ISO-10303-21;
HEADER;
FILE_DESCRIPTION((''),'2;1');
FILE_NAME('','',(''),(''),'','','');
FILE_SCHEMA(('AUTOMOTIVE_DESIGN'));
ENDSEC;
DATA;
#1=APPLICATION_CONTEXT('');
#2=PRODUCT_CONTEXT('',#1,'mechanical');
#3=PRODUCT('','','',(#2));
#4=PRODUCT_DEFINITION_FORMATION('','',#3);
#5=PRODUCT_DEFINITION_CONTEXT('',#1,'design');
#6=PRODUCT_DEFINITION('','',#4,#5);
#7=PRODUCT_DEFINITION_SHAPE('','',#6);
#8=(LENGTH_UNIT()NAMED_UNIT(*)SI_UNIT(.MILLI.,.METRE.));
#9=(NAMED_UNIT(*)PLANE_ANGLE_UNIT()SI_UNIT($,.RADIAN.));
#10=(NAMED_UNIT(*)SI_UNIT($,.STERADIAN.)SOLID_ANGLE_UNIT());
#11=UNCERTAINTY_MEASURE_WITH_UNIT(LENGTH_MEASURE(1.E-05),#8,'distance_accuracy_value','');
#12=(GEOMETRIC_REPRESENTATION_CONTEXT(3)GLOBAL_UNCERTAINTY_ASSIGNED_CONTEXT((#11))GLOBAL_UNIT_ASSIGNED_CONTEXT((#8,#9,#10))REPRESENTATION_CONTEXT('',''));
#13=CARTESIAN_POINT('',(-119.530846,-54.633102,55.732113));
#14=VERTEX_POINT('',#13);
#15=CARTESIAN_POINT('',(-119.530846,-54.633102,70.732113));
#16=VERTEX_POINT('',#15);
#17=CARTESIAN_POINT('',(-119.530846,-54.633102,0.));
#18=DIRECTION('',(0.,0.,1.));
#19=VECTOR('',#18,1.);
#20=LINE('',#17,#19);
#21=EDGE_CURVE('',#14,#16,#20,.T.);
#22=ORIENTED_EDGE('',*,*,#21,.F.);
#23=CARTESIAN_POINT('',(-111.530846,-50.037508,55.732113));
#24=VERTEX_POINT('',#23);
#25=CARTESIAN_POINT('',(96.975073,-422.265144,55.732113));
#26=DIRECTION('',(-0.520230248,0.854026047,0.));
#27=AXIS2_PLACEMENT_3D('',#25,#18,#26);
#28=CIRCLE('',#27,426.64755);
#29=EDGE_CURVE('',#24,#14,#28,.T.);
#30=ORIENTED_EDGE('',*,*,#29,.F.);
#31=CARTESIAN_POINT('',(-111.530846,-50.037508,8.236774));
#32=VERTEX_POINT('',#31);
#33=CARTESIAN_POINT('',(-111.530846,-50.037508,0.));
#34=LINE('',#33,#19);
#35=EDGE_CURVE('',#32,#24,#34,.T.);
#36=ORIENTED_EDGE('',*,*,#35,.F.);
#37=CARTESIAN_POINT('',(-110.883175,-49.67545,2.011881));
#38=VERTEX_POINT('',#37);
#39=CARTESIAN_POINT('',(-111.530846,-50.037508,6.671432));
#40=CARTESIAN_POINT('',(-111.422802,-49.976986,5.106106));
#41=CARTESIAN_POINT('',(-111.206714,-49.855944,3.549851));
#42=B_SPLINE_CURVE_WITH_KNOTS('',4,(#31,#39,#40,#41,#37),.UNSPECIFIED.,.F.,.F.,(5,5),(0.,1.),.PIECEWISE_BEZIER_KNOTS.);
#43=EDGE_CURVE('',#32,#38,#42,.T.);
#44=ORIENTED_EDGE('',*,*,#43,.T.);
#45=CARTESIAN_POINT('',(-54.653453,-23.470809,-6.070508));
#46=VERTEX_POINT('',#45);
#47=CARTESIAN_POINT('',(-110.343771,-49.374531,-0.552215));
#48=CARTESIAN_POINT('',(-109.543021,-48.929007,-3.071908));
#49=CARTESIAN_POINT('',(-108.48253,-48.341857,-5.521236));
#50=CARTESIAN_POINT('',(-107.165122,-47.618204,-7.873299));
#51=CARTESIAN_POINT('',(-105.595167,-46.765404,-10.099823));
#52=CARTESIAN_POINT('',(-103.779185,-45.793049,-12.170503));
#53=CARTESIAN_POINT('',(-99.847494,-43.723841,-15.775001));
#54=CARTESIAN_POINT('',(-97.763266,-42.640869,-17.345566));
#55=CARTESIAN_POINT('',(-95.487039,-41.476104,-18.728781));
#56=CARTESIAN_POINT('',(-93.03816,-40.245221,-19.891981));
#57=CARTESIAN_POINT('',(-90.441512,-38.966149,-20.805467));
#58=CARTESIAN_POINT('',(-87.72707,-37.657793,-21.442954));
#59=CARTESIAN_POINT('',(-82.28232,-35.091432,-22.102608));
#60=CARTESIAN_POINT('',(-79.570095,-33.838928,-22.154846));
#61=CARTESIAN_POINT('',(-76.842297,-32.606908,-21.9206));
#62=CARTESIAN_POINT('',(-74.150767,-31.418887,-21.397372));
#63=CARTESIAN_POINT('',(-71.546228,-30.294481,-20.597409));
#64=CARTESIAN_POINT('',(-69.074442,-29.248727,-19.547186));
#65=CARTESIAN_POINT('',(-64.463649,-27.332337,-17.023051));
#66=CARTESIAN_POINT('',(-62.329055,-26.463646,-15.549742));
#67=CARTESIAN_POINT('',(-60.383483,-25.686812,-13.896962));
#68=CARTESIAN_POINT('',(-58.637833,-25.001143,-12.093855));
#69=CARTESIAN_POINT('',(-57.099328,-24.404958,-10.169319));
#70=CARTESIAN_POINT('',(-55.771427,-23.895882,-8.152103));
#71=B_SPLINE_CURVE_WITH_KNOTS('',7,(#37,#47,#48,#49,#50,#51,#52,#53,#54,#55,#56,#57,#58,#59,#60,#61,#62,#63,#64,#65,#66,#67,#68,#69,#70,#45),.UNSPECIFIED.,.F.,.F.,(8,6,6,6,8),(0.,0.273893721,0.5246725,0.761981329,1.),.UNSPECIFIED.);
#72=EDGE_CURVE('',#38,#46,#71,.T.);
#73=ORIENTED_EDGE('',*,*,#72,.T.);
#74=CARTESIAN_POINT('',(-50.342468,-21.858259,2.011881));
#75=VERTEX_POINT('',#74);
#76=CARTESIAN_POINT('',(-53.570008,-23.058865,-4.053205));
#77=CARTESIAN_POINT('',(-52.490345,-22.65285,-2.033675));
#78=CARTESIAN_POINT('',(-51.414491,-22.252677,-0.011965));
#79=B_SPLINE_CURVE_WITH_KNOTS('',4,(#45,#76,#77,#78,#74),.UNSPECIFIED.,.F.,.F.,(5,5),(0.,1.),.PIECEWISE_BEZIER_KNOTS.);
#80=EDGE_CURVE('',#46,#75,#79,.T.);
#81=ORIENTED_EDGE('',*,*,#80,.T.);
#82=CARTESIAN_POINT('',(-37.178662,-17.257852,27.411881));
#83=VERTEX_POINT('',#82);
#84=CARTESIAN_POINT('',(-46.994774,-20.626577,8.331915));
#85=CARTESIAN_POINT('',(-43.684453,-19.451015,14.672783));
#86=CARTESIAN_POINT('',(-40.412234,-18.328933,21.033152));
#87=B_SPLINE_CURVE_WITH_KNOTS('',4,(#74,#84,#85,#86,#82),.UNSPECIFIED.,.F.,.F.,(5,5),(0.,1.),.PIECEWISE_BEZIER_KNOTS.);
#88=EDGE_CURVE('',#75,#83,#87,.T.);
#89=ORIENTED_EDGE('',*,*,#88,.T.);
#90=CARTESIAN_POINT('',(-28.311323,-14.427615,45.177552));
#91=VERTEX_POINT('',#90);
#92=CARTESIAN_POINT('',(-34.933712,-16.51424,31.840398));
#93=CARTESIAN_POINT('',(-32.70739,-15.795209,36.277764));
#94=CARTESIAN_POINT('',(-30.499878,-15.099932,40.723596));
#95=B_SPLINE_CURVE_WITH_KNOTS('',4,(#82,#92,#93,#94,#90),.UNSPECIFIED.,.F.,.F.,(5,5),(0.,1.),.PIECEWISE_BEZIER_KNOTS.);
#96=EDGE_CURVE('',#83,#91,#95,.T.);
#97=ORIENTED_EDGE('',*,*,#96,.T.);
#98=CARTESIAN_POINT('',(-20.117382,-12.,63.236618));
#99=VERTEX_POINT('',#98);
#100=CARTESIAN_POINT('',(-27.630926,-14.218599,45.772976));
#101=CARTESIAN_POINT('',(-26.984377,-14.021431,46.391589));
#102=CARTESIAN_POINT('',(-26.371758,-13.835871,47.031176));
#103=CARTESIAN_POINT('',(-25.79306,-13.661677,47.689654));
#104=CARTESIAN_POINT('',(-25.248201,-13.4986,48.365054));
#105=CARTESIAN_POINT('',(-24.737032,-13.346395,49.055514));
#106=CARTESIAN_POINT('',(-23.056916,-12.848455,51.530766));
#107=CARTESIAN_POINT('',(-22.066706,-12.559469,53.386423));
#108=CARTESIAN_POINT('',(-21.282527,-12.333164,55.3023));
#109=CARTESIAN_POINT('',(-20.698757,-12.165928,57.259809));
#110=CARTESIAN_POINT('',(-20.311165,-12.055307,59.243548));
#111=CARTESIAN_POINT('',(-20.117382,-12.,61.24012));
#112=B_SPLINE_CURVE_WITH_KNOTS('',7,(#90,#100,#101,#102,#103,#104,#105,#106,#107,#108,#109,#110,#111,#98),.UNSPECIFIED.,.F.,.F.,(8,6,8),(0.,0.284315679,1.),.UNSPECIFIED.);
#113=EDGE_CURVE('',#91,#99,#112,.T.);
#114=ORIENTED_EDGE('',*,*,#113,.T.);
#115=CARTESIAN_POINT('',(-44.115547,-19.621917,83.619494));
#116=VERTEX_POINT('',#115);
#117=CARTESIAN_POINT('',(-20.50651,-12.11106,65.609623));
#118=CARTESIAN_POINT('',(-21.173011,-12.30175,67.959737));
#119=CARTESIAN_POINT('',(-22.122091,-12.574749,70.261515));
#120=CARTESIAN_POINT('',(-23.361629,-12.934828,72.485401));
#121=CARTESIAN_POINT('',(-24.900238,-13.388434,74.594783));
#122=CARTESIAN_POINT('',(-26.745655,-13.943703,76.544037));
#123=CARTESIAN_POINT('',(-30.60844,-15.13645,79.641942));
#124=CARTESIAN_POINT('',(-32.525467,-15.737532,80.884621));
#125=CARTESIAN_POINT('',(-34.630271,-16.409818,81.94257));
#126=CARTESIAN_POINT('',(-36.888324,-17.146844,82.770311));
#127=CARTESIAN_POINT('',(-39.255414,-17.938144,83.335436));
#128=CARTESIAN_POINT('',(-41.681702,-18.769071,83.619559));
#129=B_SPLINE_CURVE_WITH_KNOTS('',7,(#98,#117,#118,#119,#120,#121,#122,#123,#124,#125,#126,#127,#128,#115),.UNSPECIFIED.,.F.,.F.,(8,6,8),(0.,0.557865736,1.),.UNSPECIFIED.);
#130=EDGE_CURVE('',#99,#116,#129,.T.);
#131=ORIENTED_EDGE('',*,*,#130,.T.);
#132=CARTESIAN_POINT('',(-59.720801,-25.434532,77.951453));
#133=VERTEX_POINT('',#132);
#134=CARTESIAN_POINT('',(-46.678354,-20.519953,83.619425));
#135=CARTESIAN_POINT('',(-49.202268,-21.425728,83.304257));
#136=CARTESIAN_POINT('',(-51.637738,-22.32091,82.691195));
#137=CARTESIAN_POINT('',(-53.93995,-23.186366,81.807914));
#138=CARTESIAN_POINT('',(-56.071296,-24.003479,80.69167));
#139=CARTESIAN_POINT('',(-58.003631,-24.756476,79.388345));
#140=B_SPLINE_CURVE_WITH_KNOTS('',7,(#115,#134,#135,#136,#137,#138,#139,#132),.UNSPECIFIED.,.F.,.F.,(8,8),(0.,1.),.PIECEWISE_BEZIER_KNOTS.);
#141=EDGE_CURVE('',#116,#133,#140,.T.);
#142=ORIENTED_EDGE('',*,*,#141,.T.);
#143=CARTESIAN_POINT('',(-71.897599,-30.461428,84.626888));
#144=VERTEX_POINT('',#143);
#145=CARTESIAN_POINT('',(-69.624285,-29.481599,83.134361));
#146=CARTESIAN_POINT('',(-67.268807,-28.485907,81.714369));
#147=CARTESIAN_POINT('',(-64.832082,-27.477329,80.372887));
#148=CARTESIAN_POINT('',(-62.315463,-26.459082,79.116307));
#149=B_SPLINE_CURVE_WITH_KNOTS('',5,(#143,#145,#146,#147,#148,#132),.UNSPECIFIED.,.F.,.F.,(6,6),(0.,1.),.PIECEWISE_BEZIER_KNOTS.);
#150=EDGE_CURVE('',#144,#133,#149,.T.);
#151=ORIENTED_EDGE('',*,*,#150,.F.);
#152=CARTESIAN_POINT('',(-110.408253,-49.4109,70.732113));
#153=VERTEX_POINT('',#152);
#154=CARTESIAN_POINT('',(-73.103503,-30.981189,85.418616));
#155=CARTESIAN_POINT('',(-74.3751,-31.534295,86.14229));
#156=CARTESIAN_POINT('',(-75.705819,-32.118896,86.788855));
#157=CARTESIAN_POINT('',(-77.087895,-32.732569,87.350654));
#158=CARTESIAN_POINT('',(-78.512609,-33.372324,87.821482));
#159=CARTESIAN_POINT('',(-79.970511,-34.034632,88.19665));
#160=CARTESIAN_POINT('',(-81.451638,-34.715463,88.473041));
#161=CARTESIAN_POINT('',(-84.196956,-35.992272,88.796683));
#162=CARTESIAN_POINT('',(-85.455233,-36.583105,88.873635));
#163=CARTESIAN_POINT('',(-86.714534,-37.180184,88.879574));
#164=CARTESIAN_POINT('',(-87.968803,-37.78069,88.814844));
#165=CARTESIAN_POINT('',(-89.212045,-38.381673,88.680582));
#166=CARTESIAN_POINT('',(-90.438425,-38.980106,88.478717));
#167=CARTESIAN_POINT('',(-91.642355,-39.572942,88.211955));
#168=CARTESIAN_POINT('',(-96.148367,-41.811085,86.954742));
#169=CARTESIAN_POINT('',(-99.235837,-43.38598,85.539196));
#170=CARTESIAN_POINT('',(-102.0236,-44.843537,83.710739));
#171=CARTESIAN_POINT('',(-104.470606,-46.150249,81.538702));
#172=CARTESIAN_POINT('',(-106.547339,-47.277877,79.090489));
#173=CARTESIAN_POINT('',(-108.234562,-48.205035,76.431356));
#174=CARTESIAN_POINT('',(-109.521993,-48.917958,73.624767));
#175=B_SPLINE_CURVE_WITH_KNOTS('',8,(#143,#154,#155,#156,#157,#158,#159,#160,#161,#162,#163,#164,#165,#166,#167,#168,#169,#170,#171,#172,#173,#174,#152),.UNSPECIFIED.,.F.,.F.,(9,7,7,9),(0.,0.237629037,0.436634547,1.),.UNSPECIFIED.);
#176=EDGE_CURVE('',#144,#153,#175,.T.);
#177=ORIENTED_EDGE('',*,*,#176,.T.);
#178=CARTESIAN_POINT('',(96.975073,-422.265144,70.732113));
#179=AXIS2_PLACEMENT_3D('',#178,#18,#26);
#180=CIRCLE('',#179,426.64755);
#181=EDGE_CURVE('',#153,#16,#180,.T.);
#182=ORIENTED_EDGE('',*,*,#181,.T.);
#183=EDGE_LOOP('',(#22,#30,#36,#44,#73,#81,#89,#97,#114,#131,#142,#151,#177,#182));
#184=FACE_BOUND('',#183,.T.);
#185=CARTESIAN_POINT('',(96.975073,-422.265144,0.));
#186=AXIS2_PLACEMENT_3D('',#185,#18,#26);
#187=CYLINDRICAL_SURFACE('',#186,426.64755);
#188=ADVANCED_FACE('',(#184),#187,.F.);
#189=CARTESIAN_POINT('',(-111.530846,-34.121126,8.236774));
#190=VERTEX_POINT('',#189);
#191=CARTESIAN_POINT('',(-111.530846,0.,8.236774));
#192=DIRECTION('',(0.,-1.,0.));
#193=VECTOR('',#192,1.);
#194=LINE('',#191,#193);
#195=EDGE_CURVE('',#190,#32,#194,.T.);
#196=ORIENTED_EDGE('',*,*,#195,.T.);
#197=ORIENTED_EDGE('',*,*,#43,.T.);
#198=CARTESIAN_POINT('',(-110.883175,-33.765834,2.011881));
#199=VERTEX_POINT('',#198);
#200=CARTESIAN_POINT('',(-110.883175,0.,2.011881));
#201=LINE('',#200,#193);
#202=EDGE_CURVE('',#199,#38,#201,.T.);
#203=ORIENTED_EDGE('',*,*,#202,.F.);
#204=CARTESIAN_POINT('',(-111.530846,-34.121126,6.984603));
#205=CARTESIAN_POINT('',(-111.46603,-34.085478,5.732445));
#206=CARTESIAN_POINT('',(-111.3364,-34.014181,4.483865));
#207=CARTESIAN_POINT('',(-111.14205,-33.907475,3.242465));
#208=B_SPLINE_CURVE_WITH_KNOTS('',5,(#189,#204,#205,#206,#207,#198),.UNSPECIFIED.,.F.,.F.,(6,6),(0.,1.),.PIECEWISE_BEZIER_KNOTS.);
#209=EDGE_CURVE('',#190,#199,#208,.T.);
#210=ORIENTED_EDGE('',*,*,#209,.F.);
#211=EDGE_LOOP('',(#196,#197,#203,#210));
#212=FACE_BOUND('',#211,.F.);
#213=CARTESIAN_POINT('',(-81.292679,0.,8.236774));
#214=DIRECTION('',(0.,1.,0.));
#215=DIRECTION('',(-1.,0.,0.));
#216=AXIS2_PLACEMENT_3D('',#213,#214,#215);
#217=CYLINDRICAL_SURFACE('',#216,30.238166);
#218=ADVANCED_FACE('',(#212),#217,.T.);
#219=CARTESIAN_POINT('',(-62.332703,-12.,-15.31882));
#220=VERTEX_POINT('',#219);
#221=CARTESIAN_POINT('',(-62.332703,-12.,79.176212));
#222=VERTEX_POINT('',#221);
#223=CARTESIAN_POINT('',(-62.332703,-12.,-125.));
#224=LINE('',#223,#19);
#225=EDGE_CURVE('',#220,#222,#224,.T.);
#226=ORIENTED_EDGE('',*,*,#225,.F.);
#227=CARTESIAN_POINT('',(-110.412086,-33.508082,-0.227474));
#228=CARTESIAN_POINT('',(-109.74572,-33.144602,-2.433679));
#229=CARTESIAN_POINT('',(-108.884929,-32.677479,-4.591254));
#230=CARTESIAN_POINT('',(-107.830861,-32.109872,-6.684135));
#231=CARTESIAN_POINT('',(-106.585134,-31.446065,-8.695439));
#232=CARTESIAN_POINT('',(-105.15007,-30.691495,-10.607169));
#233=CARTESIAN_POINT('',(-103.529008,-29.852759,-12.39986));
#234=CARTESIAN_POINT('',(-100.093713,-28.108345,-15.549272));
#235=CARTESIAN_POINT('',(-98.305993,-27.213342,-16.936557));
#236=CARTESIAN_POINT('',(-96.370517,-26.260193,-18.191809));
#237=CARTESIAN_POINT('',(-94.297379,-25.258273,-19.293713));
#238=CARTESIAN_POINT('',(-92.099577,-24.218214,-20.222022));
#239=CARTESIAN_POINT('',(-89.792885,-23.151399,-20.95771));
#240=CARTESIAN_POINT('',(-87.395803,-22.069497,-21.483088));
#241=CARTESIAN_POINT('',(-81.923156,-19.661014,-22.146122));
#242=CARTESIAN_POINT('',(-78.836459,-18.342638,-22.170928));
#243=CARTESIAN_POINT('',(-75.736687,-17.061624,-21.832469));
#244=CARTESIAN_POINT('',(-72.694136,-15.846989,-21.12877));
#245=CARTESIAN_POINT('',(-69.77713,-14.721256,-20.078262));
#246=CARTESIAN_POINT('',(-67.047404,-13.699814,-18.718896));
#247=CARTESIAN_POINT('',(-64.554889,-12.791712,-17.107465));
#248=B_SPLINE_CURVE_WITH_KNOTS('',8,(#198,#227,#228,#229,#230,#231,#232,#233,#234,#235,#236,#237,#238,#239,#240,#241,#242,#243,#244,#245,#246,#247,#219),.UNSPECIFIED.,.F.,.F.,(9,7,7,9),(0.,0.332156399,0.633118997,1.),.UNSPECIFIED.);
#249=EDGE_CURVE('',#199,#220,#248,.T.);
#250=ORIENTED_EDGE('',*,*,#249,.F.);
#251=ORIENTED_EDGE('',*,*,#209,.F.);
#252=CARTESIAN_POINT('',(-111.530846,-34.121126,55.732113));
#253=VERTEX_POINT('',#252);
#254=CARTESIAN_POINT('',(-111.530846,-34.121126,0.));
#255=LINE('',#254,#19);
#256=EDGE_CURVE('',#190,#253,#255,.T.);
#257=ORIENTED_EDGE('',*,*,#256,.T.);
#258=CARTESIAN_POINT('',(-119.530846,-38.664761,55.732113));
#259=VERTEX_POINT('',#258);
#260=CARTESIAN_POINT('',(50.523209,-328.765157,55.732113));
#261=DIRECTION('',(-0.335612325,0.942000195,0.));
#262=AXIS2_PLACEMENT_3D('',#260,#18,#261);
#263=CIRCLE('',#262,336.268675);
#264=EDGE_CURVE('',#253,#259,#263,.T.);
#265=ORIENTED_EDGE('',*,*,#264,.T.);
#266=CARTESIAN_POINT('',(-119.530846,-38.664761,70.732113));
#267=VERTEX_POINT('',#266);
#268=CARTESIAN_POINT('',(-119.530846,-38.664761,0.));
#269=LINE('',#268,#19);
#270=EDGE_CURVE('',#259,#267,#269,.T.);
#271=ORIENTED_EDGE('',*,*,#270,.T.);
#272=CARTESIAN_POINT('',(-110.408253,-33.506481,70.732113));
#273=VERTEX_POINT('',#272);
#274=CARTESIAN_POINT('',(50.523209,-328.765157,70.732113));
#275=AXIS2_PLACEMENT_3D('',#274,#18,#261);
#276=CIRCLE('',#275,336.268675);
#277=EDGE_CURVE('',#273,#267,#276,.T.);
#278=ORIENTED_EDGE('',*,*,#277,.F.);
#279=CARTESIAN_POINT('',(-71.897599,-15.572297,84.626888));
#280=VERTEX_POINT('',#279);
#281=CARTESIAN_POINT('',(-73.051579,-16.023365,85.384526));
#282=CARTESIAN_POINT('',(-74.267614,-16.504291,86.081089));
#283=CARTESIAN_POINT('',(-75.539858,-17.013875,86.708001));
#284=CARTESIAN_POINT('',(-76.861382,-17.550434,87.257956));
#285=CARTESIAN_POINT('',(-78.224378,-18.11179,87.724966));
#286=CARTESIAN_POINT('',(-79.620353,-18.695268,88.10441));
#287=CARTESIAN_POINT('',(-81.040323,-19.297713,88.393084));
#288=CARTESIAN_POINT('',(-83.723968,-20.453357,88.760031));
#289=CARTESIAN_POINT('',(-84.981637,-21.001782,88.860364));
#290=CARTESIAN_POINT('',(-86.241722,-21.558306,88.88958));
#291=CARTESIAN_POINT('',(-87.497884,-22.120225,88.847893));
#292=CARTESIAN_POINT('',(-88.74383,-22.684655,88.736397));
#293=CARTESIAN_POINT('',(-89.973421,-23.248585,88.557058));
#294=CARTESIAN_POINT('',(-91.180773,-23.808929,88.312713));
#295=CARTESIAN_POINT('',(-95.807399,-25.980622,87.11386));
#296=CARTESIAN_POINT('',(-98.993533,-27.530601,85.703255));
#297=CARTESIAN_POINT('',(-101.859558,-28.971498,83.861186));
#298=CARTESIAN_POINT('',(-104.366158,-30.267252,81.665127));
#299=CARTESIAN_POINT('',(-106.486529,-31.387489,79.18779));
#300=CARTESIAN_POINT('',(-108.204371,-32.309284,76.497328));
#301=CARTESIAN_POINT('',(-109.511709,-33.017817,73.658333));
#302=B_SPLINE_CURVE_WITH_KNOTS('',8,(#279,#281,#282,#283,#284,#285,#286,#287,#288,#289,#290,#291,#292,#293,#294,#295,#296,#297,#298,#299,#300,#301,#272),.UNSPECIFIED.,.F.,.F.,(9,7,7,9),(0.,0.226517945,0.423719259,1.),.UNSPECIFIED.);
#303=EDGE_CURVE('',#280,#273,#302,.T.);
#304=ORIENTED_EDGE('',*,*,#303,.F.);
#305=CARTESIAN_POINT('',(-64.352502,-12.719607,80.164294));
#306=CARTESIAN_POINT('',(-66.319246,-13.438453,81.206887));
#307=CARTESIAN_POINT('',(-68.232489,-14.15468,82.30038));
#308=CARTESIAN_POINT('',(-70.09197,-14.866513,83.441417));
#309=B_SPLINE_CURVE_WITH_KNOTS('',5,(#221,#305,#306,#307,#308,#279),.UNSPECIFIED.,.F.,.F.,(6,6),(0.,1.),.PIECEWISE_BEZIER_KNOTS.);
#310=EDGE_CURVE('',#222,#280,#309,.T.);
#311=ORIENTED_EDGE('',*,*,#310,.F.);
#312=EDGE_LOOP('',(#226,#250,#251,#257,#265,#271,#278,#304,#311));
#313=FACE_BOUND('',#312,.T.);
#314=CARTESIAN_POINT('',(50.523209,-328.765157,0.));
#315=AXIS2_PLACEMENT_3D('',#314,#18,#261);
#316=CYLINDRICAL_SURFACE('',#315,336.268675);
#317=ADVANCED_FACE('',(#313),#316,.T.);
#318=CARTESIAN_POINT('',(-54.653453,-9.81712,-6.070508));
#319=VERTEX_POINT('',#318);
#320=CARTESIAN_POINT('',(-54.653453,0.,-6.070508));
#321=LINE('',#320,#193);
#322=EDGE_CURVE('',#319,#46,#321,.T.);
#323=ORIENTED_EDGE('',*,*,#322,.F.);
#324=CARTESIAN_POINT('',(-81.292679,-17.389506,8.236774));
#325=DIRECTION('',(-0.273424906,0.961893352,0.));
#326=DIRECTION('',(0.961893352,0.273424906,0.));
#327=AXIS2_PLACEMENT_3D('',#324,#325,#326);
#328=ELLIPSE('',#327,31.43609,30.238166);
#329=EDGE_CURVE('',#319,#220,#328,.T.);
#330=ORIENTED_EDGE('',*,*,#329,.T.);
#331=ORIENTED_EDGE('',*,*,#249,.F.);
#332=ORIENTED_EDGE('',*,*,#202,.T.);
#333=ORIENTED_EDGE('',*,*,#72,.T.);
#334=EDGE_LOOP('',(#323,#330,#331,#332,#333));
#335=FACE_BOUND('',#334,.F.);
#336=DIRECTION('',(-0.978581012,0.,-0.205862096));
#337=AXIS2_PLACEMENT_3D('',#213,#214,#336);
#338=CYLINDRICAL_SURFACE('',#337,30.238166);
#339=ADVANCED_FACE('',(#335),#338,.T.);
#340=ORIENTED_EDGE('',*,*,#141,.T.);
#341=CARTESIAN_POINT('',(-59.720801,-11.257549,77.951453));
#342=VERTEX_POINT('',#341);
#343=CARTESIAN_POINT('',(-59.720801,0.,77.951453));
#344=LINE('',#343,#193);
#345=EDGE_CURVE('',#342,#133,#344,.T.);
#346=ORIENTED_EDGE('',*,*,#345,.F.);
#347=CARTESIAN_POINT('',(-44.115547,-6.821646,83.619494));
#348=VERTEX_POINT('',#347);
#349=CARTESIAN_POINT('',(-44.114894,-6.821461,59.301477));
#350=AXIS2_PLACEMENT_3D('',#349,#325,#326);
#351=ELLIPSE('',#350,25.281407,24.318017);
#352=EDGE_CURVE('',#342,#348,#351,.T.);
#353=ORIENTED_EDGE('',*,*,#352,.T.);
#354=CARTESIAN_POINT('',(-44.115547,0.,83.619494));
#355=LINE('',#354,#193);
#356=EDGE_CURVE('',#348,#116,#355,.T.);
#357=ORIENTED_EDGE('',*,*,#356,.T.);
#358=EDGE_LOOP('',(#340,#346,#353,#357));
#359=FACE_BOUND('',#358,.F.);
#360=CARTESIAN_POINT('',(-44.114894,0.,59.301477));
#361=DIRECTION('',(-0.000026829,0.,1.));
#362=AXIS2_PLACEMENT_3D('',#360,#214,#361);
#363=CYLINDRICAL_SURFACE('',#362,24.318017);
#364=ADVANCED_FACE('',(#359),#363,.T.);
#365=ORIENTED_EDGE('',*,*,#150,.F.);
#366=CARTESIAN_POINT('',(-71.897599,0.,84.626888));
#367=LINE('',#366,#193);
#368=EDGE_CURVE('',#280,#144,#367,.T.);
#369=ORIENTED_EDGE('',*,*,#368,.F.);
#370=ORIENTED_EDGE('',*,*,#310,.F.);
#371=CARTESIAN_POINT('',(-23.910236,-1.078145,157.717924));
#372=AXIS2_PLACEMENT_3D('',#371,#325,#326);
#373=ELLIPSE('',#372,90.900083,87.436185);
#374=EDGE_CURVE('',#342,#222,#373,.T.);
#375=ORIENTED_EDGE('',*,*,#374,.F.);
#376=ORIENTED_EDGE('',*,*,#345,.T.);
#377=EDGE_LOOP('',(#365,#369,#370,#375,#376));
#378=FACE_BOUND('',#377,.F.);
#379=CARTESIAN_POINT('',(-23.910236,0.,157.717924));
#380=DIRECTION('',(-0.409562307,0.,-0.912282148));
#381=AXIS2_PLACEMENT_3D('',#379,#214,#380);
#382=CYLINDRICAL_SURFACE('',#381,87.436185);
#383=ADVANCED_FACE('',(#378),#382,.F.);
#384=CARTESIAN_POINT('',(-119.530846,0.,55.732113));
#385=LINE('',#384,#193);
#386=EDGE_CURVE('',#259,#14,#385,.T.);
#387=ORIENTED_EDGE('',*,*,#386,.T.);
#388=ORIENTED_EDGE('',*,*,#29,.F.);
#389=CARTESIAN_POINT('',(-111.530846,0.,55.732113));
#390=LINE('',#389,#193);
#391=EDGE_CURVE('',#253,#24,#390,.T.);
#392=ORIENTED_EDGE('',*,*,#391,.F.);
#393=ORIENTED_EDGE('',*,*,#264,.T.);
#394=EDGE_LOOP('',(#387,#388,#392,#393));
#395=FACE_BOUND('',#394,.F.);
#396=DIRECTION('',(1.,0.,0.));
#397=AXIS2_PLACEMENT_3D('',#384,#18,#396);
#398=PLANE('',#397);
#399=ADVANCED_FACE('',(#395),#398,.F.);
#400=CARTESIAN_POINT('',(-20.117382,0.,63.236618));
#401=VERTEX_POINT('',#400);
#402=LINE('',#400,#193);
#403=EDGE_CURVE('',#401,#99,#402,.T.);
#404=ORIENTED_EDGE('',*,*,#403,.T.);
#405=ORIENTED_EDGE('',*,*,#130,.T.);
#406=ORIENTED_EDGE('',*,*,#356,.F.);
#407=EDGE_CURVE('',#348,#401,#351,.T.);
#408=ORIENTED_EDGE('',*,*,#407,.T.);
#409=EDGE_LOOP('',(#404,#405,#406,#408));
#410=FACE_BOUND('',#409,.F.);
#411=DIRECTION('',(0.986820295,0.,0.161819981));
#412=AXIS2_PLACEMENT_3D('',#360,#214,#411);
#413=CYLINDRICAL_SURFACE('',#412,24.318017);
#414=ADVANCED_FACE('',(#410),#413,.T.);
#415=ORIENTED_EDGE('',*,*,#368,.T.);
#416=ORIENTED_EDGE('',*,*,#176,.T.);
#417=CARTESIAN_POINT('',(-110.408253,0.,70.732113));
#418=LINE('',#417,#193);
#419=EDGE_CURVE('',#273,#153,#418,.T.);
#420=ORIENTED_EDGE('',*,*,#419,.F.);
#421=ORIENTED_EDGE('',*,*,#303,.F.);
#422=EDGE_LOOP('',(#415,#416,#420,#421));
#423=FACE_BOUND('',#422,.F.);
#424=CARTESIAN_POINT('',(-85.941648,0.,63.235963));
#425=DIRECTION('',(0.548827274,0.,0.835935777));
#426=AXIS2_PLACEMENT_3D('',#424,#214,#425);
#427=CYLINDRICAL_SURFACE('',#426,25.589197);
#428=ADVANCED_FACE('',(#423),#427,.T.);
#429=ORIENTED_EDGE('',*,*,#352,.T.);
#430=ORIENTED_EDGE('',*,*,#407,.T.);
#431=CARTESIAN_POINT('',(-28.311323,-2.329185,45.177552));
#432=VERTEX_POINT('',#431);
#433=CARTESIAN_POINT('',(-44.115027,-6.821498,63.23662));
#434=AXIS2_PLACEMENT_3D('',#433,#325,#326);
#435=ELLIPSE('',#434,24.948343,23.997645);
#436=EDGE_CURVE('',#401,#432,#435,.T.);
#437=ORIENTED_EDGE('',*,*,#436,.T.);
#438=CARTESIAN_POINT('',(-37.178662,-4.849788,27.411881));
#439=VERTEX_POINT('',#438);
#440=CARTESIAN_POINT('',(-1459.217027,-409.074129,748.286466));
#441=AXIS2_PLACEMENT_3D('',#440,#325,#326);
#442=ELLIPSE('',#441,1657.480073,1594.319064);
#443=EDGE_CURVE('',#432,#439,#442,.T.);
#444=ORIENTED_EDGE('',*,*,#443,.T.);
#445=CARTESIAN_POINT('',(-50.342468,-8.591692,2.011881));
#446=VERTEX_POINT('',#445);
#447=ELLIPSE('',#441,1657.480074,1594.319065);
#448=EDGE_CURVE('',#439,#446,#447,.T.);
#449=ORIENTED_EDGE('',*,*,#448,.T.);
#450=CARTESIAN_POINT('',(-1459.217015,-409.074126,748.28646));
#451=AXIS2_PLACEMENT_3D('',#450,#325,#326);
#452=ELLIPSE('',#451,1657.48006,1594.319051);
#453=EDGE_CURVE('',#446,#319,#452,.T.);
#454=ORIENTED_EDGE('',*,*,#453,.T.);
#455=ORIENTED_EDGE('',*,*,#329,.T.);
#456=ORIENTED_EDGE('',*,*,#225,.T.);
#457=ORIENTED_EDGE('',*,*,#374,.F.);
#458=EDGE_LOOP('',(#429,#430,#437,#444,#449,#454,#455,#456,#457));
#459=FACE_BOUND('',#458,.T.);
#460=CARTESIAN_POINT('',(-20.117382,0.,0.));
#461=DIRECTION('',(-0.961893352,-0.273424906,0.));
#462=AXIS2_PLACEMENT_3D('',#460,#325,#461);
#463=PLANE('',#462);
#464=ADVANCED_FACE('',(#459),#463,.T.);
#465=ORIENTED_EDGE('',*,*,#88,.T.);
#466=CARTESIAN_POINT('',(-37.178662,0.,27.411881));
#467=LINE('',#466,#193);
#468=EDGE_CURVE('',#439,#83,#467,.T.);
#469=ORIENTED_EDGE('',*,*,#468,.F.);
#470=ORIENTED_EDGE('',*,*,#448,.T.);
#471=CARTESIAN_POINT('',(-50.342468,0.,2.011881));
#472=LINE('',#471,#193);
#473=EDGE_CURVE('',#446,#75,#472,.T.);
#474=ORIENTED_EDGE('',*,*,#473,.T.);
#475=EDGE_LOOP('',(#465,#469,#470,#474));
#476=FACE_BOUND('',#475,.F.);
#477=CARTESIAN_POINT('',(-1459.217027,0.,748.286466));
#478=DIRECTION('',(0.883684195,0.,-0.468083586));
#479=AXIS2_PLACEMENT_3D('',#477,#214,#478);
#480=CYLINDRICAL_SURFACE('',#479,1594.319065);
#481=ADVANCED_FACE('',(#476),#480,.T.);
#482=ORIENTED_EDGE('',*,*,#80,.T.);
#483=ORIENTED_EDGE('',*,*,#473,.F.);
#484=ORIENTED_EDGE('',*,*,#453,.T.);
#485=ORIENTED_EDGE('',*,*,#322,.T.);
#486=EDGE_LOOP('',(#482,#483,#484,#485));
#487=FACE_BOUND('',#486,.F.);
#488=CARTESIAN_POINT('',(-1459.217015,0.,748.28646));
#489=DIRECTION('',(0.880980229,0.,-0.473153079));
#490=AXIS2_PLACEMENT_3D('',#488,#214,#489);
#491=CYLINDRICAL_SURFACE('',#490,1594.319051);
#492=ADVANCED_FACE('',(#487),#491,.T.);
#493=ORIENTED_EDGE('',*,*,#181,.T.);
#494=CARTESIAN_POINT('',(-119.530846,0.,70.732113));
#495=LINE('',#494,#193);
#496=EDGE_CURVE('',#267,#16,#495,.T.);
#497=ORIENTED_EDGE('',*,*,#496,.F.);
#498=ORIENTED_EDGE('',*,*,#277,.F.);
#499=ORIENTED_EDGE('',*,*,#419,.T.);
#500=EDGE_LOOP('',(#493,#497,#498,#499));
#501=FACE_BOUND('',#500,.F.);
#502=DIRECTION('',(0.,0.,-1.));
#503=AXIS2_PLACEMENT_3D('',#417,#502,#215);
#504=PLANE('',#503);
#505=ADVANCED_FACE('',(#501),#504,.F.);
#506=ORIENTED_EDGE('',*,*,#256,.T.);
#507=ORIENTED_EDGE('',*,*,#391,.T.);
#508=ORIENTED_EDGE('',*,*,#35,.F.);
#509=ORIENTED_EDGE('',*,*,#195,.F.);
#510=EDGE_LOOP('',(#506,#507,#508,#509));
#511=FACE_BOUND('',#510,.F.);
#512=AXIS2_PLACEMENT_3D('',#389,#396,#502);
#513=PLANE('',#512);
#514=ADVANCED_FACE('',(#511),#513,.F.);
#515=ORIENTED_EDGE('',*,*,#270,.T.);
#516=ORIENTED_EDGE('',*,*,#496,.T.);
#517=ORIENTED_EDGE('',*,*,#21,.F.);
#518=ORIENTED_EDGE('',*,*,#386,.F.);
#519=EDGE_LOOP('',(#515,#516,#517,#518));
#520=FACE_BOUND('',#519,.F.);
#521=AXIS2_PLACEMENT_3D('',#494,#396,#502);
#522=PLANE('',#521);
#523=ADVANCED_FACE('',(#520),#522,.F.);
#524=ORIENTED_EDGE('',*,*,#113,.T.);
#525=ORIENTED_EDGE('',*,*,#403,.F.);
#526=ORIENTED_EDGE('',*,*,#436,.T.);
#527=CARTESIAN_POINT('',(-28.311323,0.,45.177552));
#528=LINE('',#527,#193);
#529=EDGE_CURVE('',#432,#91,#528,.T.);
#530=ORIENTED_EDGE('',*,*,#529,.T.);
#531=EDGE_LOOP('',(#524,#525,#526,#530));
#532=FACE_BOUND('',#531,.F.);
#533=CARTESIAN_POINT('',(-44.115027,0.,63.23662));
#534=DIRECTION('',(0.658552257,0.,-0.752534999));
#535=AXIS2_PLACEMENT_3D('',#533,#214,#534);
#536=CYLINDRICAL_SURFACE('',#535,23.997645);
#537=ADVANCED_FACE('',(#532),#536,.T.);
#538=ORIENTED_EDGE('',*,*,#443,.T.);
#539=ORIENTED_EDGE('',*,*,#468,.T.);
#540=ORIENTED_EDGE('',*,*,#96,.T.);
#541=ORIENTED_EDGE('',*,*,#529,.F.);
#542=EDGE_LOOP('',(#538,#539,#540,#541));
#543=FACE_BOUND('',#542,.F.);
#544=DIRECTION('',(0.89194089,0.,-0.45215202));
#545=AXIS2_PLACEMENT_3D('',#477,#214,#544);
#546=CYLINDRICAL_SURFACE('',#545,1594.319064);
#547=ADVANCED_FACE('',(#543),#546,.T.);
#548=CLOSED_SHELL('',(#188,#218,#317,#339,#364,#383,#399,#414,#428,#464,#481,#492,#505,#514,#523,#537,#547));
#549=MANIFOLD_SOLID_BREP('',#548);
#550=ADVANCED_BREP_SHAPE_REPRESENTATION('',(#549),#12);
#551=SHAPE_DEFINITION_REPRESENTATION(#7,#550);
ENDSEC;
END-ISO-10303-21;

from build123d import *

# Parameters (mm, degrees)
F2_DEPTH = 125
F3_DEPTH = 70


with BuildPart() as f2:
    # F1 (on Top) → F2 (new body, symmetric)
    with BuildSketch(Plane.XY):
        with BuildLine():
            Line((-20.1173815044, -12), (-20.1173815044, 0))
            Line((-20.1173815044, 0), (-62.3327026961, -12))
            ThreePointArc((-62.3327026961, -12), (-94.4307756153, -25.3430684038), (-124.9798869452, -41.9284703137))
            Line((-124.9798869452, -41.9284703137), (-124.9798869452, -57.8970238566))
            ThreePointArc((-124.9798869452, -57.8970238566), (-74.0948586353, -31.4157999565), (-20.1173815044, -12))
        make_face()
    extrude(amount=F2_DEPTH, both=True)

    # F0 (on Front) → F3 (intersect)
    with BuildSketch(Plane.XZ):
        with BuildLine():
            ThreePointArc((-50.3424681349, 2.011881357), (-43.7035916624, 14.6823543144), (-37.1786620038, 27.411881357))
            Line((-37.1786620038, 27.411881357), (-40.5631333527, 27.411881357))
            Line((-40.5631333527, 27.411881357), (-53.0749750304, 2.011881357))
            Line((-53.0749750304, 2.011881357), (-50.3424681349, 2.011881357))
        make_face()
        with BuildLine():
            ThreePointArc((-111.5308457017, 8.2367736608), (-111.3684921212, 5.1075260751), (-110.883174785, 2.011881357))
            Line((-110.883174785, 2.011881357), (-108.5308457017, 2.011881357))
            Line((-108.5308457017, 2.011881357), (-108.5308457017, 27.411881357))
            Line((-108.5308457017, 27.411881357), (-111.5308457017, 27.411881357))
            Line((-111.5308457017, 27.411881357), (-111.5308457017, 8.2367736608))
        make_face()
        with BuildLine():
            ThreePointArc((-58.7104798901, 72.082701381), (-52.1284588148, 76.9699120882), (-44.1155466177, 78.7022711894))
            Line((-44.1155466177, 78.7022711894), (-44.1155466177, 83.6194937793))
            ThreePointArc((-44.1155466177, 83.6194937793), (-52.4168726575, 82.1584911266), (-59.720801287, 77.9514530539))
            Line((-59.720801287, 77.9514530539), (-58.7104798901, 72.0827013811))
        make_face()
        with BuildLine():
            ThreePointArc((-74.6417350745, 80.4472095387), (-66.8801209506, 75.8763862144), (-58.7104798901, 72.082701381))
            Line((-58.7104798901, 72.0827013811), (-59.720801287, 77.9514530539))
            ThreePointArc((-59.720801287, 77.9514530539), (-65.9419328873, 81.0470499739), (-71.8975987059, 84.6268884248))
            ThreePointArc((-71.8975987059, 84.6268884248), (-94.6263251651, 87.3063473236), (-110.4082532694, 70.7321127484))
            Line((-110.4082532694, 70.7321127484), (-105.1175635416, 70.7325836032))
            ThreePointArc((-105.1175635416, 70.7325836032), (-92.1947547892, 82.8526319552), (-74.6417350745, 80.4472095387))
        make_face()
        with BuildLine():
            ThreePointArc((-111.1327510691, 67.7321127484), (-110.8157710876, 69.2430451589), (-110.4082532694, 70.7321127484))
            Line((-110.4082532694, 70.7321127484), (-119.5308457017, 70.7321127484))
            Line((-119.5308457017, 70.7321127484), (-119.5308457017, 63.235962727))
            Line((-119.5308457017, 63.235962727), (-119.5308457017, 55.7321127484))
            Line((-119.5308457017, 55.7321127484), (-111.5308457017, 55.7321127484))
            Line((-111.5308457017, 55.7321127484), (-111.5308457017, 58.7321127484))
            Line((-111.5308457017, 58.7321127484), (-116.5308457017, 58.7321127484))
            Line((-116.5308457017, 58.7321127484), (-116.5308457017, 67.7321127484))
            Line((-116.5308457017, 67.7321127484), (-111.1327510691, 67.7321127484))
        make_face()
        with BuildLine():
            ThreePointArc((-106.5308457017, 63.235962727), (-106.1744404196, 67.0503005144), (-105.1175635416, 70.7325836032))
            Line((-105.1175635416, 70.7325836032), (-110.4082532694, 70.7321127484))
            ThreePointArc((-110.4082532694, 70.7321127484), (-110.8157710876, 69.2430451589), (-111.1327510691, 67.7321127484))
            ThreePointArc((-111.1327510691, 67.7321127484), (-111.4311277492, 65.4928324813), (-111.5308457017, 63.235962727))
            Line((-111.5308457017, 63.235962727), (-106.5308457017, 63.235962727))
        make_face()
        with BuildLine():
            Line((-44.1155466177, 83.6194937793), (-44.1155466177, 78.7022711894))
            ThreePointArc((-44.1155466177, 78.7022711894), (-35.3223638904, 76.5954709648), (-28.4390725201, 70.7321127484))
            Line((-28.4390725201, 70.7321127484), (-25.125950558, 70.7321127484))
            Line((-25.125950558, 70.7321127484), (-25.125950558, 67.7321127484))
            Line((-25.125950558, 67.7321127484), (-25.125950558, 63.2777618764))
            ThreePointArc((-25.125950558, 63.2777618764), (-25.1216548902, 63.2571921801), (-25.1173815044, 63.2366178431))
            Line((-25.1173815044, 63.2366178431), (-21.4978827913, 63.2366178431))
            Line((-21.4978827913, 63.2366178431), (-20.1173815044, 63.2366178431))
            ThreePointArc((-20.1173815044, 63.2366178431), (-28.3723488637, 77.8362607667), (-44.1155466177, 83.6194937793))
        make_face()
        with BuildLine():
            ThreePointArc((-28.3113232287, 45.1775518031), (-22.2616675499, 53.3210929585), (-20.1173815044, 63.2366178431))
            Line((-20.1173815044, 63.2366178431), (-21.4978827913, 63.2366178431))
            Line((-21.4978827913, 63.2366178431), (-25.1173815044, 63.2366178431))
            ThreePointArc((-25.1173815044, 63.2366178431), (-25.1195239016, 62.9513190082), (-25.125950558, 62.6660845201))
            Line((-25.125950558, 62.6660845201), (-25.125950558, 58.7321127484))
            Line((-25.125950558, 58.7321127484), (-25.125950558, 55.7321127484))
            Line((-25.125950558, 55.7321127484), (-26.6624366413, 55.7321127484))
            ThreePointArc((-26.6624366413, 55.7321127484), (-29.0361784259, 51.6807182081), (-32.3311047694, 48.3352872686))
            ThreePointArc((-32.3311047694, 48.3352872686), (-45.4552623154, 22.1922845204), (-59.058353819, -3.7047424426))
            ThreePointArc((-59.058353819, -3.7047424426), (-87.4494412294, -16.2389147483), (-106.5308457017, 8.2367736608))
            Line((-106.5308457017, 8.2367736608), (-106.5308457017, 63.235962727))
            Line((-106.5308457017, 63.235962727), (-111.5308457017, 63.235962727))
            Line((-111.5308457017, 63.235962727), (-111.5308457017, 60.235962727))
            Line((-111.5308457017, 60.235962727), (-111.5308457017, 58.7321127484))
            Line((-111.5308457017, 58.7321127484), (-111.5308457017, 55.7321127484))
            Line((-111.5308457017, 55.7321127484), (-111.5308457017, 46.235962727))
            Line((-111.5308457017, 46.235962727), (-111.5308457017, 43.235962727))
            Line((-111.5308457017, 43.235962727), (-111.5308457017, 27.411881357))
            Line((-111.5308457017, 27.411881357), (-108.5308457017, 27.411881357))
            Line((-108.5308457017, 27.411881357), (-108.5308457017, 2.011881357))
            Line((-108.5308457017, 2.011881357), (-110.883174785, 2.011881357))
            ThreePointArc((-110.883174785, 2.011881357), (-85.5948591136, -21.6937784963), (-54.6534526738, -6.0705078369))
            ThreePointArc((-54.6534526738, -6.0705078369), (-52.4921556845, -2.0324093613), (-50.3424681349, 2.011881357))
            Line((-50.3424681349, 2.011881357), (-53.0749750304, 2.011881357))
            Line((-53.0749750304, 2.011881357), (-40.5631333527, 27.411881357))
            Line((-40.5631333527, 27.411881357), (-37.1786620038, 27.411881357))
            ThreePointArc((-37.1786620038, 27.411881357), (-32.7173355733, 36.2809121829), (-28.3113232287, 45.1775518031))
        make_face()
        with BuildLine():
            ThreePointArc((-59.7874298203, 70.7366178431), (-59.2639132157, 71.4216272239), (-58.7104798901, 72.082701381))
            ThreePointArc((-58.7104798901, 72.082701381), (-66.8801209506, 75.8763862144), (-74.6417350745, 80.4472095387))
            ThreePointArc((-74.6417350745, 80.4472095387), (-92.1947547892, 82.8526319552), (-105.1175635416, 70.7325836032))
            Line((-105.1175635416, 70.7325836032), (-59.7874298203, 70.7366178431))
        make_face()
        with BuildLine():
            Line((-44.1625017472, 58.3259770467), (-44.1384770042, 73.0866154512))
            ThreePointArc((-44.1384770042, 73.0866154512), (-52.6930688519, 70.3809469556), (-58.1126715156, 63.2304511227))
            ThreePointArc((-58.1126715156, 63.2304511227), (-51.5611714322, 59.5733795212), (-44.1625017472, 58.3259770467))
        make_face()
        with BuildLine():
            ThreePointArc((-30.2525475407, 63.3421322906), (-35.6608853062, 70.4012237485), (-44.1384770042, 73.0866154512))
            Line((-44.1384770042, 73.0866154512), (-44.1625017472, 58.3259770467))
            ThreePointArc((-44.1625017472, 58.3259770467), (-36.7743073798, 59.6327297467), (-30.2525475407, 63.3421322906))
        make_face()
        with BuildLine():
            ThreePointArc((-28.4390725201, 70.7321127484), (-35.3223638904, 76.5954709648), (-44.1155466177, 78.7022711894))
            Line((-44.1155466177, 78.7022711894), (-44.1384770042, 73.0866154512))
            ThreePointArc((-44.1384770042, 73.0866154512), (-35.6608853062, 70.4012237485), (-30.2525475407, 63.3421322906))
            ThreePointArc((-30.2525475407, 63.3421322906), (-29.9896602119, 65.238638267), (-29.125950558, 66.9473952129))
            Line((-29.125950558, 66.9473952129), (-29.125950558, 67.7321127484))
            Line((-29.125950558, 67.7321127484), (-29.125950558, 70.7321127484))
            Line((-29.125950558, 70.7321127484), (-28.4390725201, 70.7321127484))
        make_face()
        with BuildLine():
            Line((-44.1384770042, 73.0866154512), (-44.1155466177, 78.7022711894))
            ThreePointArc((-44.1155466177, 78.7022711894), (-52.1284588148, 76.9699120882), (-58.7104798901, 72.082701381))
            ThreePointArc((-58.7104798901, 72.082701381), (-59.2639132157, 71.4216272239), (-59.7874298203, 70.7366178431))
            ThreePointArc((-59.7874298203, 70.7366178431), (-61.8511548442, 67.1637844674), (-63.1126715156, 63.2353401198))
            Line((-63.1126715156, 63.2353401197), (-58.1126715156, 63.2304511227))
            ThreePointArc((-58.1126715156, 63.2304511227), (-52.6930688519, 70.3809469556), (-44.1384770042, 73.0866154512))
        make_face()
        with BuildLine():
            ThreePointArc((-29.125950558, 60.0559074311), (-29.9399958244, 61.6130578308), (-30.2525475407, 63.3421322906))
            ThreePointArc((-30.2525475407, 63.3421322906), (-36.7743073798, 59.6327297467), (-44.1625017472, 58.3259770467))
            Line((-44.1625017472, 58.3259770467), (-44.1625663386, 58.2862925416))
            Line((-44.1625663386, 58.2862925416), (-44.1143876699, 44.2389745578))
            ThreePointArc((-44.1143876699, 44.2389745578), (-37.8769249189, 45.2923557317), (-32.3311047694, 48.3352872686))
            ThreePointArc((-32.3311047694, 48.3352872686), (-29.0361784259, 51.6807182081), (-26.6624366413, 55.7321127484))
            Line((-26.6624366413, 55.7321127484), (-29.125950558, 55.7321127484))
            Line((-29.125950558, 55.7321127484), (-29.125950558, 58.7321127484))
            Line((-29.125950558, 58.7321127484), (-29.125950558, 60.0559074311))
        make_face()
        with BuildLine():
            ThreePointArc((-63.1126715156, 63.2353401198), (-61.8511548442, 67.1637844674), (-59.7874298203, 70.7366178431))
            Line((-59.7874298203, 70.7366178431), (-105.1175635416, 70.7325836032))
            ThreePointArc((-105.1175635416, 70.7325836032), (-106.1744404196, 67.0503005144), (-106.5308457017, 63.235962727))
            Line((-106.5308457017, 63.235962727), (-63.1126715156, 63.2353401197))
        make_face()
        with BuildLine():
            ThreePointArc((-44.1625017472, 58.3259770467), (-51.5611714322, 59.5733795212), (-58.1126715156, 63.2304511227))
            Line((-58.1126715156, 63.2304511227), (-63.1126715156, 63.2353401197))
            ThreePointArc((-63.1126715156, 63.2353401198), (-57.5477119125, 49.8025777389), (-44.1143876699, 44.2389745578))
            Line((-44.1143876699, 44.2389745578), (-44.1625663386, 58.2862925416))
            Line((-44.1625663386, 58.2862925416), (-44.1625017472, 58.3259770467))
        make_face()
        with BuildLine():
            ThreePointArc((-44.1143876699, 44.2389745578), (-57.5477119125, 49.8025777389), (-63.1126715156, 63.2353401198))
            Line((-63.1126715156, 63.2353401197), (-106.5308457017, 63.235962727))
            Line((-106.5308457017, 63.235962727), (-106.5308457017, 8.2367736608))
            ThreePointArc((-106.5308457017, 8.2367736608), (-87.4494412294, -16.2389147483), (-59.058353819, -3.7047424426))
            ThreePointArc((-59.058353819, -3.7047424426), (-45.4552623154, 22.1922845204), (-32.3311047694, 48.3352872686))
            ThreePointArc((-32.3311047694, 48.3352872686), (-37.8769249189, 45.2923557317), (-44.1143876699, 44.2389745578))
        make_face()
        with BuildLine():
            Line((-111.5308457017, 60.235962727), (-111.5308457017, 63.235962727))
            ThreePointArc((-111.5308457017, 63.235962727), (-111.4311277492, 65.4928324813), (-111.1327510691, 67.7321127484))
            Line((-111.1327510691, 67.7321127484), (-116.5308457017, 67.7321127484))
            Line((-116.5308457017, 67.7321127484), (-116.5308457017, 58.7321127484))
            Line((-116.5308457017, 58.7321127484), (-111.5308457017, 58.7321127484))
            Line((-111.5308457017, 58.7321127484), (-111.5308457017, 60.235962727))
        make_face()
        with BuildLine():
            ThreePointArc((-27.7727110675, 58.7321127484), (-28.5034805512, 59.3386559133), (-29.125950558, 60.0559074311))
            Line((-29.125950558, 60.0559074311), (-29.125950558, 58.7321127484))
            Line((-29.125950558, 58.7321127484), (-27.7727110675, 58.7321127484))
        make_face()
        with BuildLine():
            ThreePointArc((-29.125950558, 66.9473952129), (-29.9896602119, 65.238638267), (-30.2525475407, 63.3421322906))
            Line((-30.2525475407, 63.3421322906), (-29.125950558, 63.3189836217))
            Line((-29.125950558, 63.3189836217), (-29.125950558, 66.9473952129))
        make_face()
        with BuildLine():
            ThreePointArc((-26.641623153, 67.7321127484), (-26.876272417, 68.2020802958), (-27.1235592075, 68.6655228662))
            ThreePointArc((-27.1235592075, 68.6655228662), (-27.8108334836, 68.2442520617), (-28.4333512304, 67.7321127484))
            Line((-28.4333512304, 67.7321127484), (-26.641623153, 67.7321127484))
        make_face()
        with BuildLine():
            Line((-25.6591349294, 58.7321127484), (-27.7727110675, 58.7321127484))
            ThreePointArc((-27.7727110675, 58.7321127484), (-26.8716219424, 58.2140455013), (-25.8927896329, 57.8644134178))
            ThreePointArc((-25.8927896329, 57.8644134178), (-25.7708311795, 58.2968813763), (-25.6591349294, 58.7321127484))
        make_face()
        with BuildLine():
            Line((-29.125950558, 63.3189836217), (-30.2525475407, 63.3421322906))
            ThreePointArc((-30.2525475407, 63.3421322906), (-29.9399958244, 61.6130578308), (-29.125950558, 60.0559074311))
            Line((-29.125950558, 60.0559074311), (-29.125950558, 63.3189836217))
        make_face()
        with BuildLine():
            Line((-25.125950558, 70.7321127484), (-28.4390725201, 70.7321127484))
            ThreePointArc((-28.4390725201, 70.7321127484), (-27.748664344, 69.7196025355), (-27.1235592075, 68.6655228662))
            ThreePointArc((-27.1235592075, 68.6655228662), (-26.876272417, 68.2020802958), (-26.641623153, 67.7321127484))
            Line((-26.641623153, 67.7321127484), (-25.125950558, 67.7321127484))
            Line((-25.125950558, 67.7321127484), (-25.125950558, 70.7321127484))
        make_face()
        with BuildLine():
            ThreePointArc((-27.1235592075, 68.6655228662), (-27.748664344, 69.7196025355), (-28.4390725201, 70.7321127484))
            Line((-28.4390725201, 70.7321127484), (-29.125950558, 70.7321127484))
            Line((-29.125950558, 70.7321127484), (-29.125950558, 67.7321127484))
            Line((-29.125950558, 67.7321127484), (-28.4333512304, 67.7321127484))
            ThreePointArc((-28.4333512304, 67.7321127484), (-27.8108334836, 68.2442520617), (-27.1235592075, 68.6655228662))
        make_face()
        with BuildLine():
            ThreePointArc((-25.8927896329, 57.8644134178), (-26.8716219424, 58.2140455013), (-27.7727110675, 58.7321127484))
            Line((-27.7727110675, 58.7321127484), (-29.125950558, 58.7321127484))
            Line((-29.125950558, 58.7321127484), (-29.125950558, 55.7321127484))
            Line((-29.125950558, 55.7321127484), (-26.6624366413, 55.7321127484))
            ThreePointArc((-26.6624366413, 55.7321127484), (-26.2457793974, 56.786772798), (-25.8927896329, 57.8644134178))
        make_face()
        with BuildLine():
            Line((-25.125950558, 67.7321127484), (-26.641623153, 67.7321127484))
            ThreePointArc((-26.641623153, 67.7321127484), (-25.7482509185, 65.5510558403), (-25.125950558, 63.2777618764))
            Line((-25.125950558, 63.2777618764), (-25.125950558, 67.7321127484))
        make_face()
        with BuildLine():
            Line((-25.125950558, 63.2367939151), (-29.125950558, 63.3189836217))
            Line((-29.125950558, 63.3189836217), (-29.125950558, 60.0559074311))
            ThreePointArc((-29.125950558, 60.0559074311), (-28.5034805512, 59.3386559133), (-27.7727110675, 58.7321127484))
            Line((-27.7727110675, 58.7321127484), (-25.6591349294, 58.7321127484))
            ThreePointArc((-25.6591349294, 58.7321127484), (-25.289500439, 60.6851329655), (-25.125950558, 62.6660845201))
            Line((-25.125950558, 62.6660845201), (-25.125950558, 63.2367939151))
        make_face()
        with BuildLine():
            ThreePointArc((-29.125950558, 66.9473952129), (-28.7973156506, 67.3553450664), (-28.4333512304, 67.7321127484))
            Line((-28.4333512304, 67.7321127484), (-29.125950558, 67.7321127484))
            Line((-29.125950558, 67.7321127484), (-29.125950558, 66.9473952129))
        make_face()
        with BuildLine():
            ThreePointArc((-25.6591349294, 58.7321127484), (-25.7708311795, 58.2968813763), (-25.8927896329, 57.8644134178))
            ThreePointArc((-25.8927896329, 57.8644134178), (-26.2457793974, 56.786772798), (-26.6624366413, 55.7321127484))
            Line((-26.6624366413, 55.7321127484), (-25.125950558, 55.7321127484))
            Line((-25.125950558, 55.7321127484), (-25.125950558, 58.7321127484))
            Line((-25.125950558, 58.7321127484), (-25.6591349294, 58.7321127484))
        make_face()
        with BuildLine():
            ThreePointArc((-25.125950558, 63.2777618764), (-25.7482509185, 65.5510558403), (-26.641623153, 67.7321127484))
            Line((-26.641623153, 67.7321127484), (-28.4333512304, 67.7321127484))
            ThreePointArc((-28.4333512304, 67.7321127484), (-28.7973156506, 67.3553450664), (-29.125950558, 66.9473952129))
            Line((-29.125950558, 66.9473952129), (-29.125950558, 63.3189836217))
            Line((-29.125950558, 63.3189836217), (-25.125950558, 63.2367939151))
            Line((-25.125950558, 63.2367939151), (-25.125950558, 63.2777618764))
        make_face()
        with BuildLine():
            Line((-25.125950558, 58.7321127484), (-25.125950558, 62.6660845201))
            ThreePointArc((-25.125950558, 62.6660845201), (-25.289500439, 60.6851329655), (-25.6591349294, 58.7321127484))
            Line((-25.6591349294, 58.7321127484), (-25.125950558, 58.7321127484))
        make_face()
        with BuildLine():
            ThreePointArc((-25.1173815044, 63.2366178431), (-25.1216548902, 63.2571921801), (-25.125950558, 63.2777618764))
            Line((-25.125950558, 63.2777618764), (-25.125950558, 63.2367939151))
            Line((-25.125950558, 63.2367939151), (-25.1173815044, 63.2366178431))
        make_face()
        with BuildLine():
            ThreePointArc((-25.125950558, 62.6660845201), (-25.1195239016, 62.9513190082), (-25.1173815044, 63.2366178431))
            Line((-25.1173815044, 63.2366178431), (-25.125950558, 63.2367939151))
            Line((-25.125950558, 63.2367939151), (-25.125950558, 62.6660845201))
        make_face()
    extrude(amount=F3_DEPTH, mode=Mode.INTERSECT)


solid = f2.part
